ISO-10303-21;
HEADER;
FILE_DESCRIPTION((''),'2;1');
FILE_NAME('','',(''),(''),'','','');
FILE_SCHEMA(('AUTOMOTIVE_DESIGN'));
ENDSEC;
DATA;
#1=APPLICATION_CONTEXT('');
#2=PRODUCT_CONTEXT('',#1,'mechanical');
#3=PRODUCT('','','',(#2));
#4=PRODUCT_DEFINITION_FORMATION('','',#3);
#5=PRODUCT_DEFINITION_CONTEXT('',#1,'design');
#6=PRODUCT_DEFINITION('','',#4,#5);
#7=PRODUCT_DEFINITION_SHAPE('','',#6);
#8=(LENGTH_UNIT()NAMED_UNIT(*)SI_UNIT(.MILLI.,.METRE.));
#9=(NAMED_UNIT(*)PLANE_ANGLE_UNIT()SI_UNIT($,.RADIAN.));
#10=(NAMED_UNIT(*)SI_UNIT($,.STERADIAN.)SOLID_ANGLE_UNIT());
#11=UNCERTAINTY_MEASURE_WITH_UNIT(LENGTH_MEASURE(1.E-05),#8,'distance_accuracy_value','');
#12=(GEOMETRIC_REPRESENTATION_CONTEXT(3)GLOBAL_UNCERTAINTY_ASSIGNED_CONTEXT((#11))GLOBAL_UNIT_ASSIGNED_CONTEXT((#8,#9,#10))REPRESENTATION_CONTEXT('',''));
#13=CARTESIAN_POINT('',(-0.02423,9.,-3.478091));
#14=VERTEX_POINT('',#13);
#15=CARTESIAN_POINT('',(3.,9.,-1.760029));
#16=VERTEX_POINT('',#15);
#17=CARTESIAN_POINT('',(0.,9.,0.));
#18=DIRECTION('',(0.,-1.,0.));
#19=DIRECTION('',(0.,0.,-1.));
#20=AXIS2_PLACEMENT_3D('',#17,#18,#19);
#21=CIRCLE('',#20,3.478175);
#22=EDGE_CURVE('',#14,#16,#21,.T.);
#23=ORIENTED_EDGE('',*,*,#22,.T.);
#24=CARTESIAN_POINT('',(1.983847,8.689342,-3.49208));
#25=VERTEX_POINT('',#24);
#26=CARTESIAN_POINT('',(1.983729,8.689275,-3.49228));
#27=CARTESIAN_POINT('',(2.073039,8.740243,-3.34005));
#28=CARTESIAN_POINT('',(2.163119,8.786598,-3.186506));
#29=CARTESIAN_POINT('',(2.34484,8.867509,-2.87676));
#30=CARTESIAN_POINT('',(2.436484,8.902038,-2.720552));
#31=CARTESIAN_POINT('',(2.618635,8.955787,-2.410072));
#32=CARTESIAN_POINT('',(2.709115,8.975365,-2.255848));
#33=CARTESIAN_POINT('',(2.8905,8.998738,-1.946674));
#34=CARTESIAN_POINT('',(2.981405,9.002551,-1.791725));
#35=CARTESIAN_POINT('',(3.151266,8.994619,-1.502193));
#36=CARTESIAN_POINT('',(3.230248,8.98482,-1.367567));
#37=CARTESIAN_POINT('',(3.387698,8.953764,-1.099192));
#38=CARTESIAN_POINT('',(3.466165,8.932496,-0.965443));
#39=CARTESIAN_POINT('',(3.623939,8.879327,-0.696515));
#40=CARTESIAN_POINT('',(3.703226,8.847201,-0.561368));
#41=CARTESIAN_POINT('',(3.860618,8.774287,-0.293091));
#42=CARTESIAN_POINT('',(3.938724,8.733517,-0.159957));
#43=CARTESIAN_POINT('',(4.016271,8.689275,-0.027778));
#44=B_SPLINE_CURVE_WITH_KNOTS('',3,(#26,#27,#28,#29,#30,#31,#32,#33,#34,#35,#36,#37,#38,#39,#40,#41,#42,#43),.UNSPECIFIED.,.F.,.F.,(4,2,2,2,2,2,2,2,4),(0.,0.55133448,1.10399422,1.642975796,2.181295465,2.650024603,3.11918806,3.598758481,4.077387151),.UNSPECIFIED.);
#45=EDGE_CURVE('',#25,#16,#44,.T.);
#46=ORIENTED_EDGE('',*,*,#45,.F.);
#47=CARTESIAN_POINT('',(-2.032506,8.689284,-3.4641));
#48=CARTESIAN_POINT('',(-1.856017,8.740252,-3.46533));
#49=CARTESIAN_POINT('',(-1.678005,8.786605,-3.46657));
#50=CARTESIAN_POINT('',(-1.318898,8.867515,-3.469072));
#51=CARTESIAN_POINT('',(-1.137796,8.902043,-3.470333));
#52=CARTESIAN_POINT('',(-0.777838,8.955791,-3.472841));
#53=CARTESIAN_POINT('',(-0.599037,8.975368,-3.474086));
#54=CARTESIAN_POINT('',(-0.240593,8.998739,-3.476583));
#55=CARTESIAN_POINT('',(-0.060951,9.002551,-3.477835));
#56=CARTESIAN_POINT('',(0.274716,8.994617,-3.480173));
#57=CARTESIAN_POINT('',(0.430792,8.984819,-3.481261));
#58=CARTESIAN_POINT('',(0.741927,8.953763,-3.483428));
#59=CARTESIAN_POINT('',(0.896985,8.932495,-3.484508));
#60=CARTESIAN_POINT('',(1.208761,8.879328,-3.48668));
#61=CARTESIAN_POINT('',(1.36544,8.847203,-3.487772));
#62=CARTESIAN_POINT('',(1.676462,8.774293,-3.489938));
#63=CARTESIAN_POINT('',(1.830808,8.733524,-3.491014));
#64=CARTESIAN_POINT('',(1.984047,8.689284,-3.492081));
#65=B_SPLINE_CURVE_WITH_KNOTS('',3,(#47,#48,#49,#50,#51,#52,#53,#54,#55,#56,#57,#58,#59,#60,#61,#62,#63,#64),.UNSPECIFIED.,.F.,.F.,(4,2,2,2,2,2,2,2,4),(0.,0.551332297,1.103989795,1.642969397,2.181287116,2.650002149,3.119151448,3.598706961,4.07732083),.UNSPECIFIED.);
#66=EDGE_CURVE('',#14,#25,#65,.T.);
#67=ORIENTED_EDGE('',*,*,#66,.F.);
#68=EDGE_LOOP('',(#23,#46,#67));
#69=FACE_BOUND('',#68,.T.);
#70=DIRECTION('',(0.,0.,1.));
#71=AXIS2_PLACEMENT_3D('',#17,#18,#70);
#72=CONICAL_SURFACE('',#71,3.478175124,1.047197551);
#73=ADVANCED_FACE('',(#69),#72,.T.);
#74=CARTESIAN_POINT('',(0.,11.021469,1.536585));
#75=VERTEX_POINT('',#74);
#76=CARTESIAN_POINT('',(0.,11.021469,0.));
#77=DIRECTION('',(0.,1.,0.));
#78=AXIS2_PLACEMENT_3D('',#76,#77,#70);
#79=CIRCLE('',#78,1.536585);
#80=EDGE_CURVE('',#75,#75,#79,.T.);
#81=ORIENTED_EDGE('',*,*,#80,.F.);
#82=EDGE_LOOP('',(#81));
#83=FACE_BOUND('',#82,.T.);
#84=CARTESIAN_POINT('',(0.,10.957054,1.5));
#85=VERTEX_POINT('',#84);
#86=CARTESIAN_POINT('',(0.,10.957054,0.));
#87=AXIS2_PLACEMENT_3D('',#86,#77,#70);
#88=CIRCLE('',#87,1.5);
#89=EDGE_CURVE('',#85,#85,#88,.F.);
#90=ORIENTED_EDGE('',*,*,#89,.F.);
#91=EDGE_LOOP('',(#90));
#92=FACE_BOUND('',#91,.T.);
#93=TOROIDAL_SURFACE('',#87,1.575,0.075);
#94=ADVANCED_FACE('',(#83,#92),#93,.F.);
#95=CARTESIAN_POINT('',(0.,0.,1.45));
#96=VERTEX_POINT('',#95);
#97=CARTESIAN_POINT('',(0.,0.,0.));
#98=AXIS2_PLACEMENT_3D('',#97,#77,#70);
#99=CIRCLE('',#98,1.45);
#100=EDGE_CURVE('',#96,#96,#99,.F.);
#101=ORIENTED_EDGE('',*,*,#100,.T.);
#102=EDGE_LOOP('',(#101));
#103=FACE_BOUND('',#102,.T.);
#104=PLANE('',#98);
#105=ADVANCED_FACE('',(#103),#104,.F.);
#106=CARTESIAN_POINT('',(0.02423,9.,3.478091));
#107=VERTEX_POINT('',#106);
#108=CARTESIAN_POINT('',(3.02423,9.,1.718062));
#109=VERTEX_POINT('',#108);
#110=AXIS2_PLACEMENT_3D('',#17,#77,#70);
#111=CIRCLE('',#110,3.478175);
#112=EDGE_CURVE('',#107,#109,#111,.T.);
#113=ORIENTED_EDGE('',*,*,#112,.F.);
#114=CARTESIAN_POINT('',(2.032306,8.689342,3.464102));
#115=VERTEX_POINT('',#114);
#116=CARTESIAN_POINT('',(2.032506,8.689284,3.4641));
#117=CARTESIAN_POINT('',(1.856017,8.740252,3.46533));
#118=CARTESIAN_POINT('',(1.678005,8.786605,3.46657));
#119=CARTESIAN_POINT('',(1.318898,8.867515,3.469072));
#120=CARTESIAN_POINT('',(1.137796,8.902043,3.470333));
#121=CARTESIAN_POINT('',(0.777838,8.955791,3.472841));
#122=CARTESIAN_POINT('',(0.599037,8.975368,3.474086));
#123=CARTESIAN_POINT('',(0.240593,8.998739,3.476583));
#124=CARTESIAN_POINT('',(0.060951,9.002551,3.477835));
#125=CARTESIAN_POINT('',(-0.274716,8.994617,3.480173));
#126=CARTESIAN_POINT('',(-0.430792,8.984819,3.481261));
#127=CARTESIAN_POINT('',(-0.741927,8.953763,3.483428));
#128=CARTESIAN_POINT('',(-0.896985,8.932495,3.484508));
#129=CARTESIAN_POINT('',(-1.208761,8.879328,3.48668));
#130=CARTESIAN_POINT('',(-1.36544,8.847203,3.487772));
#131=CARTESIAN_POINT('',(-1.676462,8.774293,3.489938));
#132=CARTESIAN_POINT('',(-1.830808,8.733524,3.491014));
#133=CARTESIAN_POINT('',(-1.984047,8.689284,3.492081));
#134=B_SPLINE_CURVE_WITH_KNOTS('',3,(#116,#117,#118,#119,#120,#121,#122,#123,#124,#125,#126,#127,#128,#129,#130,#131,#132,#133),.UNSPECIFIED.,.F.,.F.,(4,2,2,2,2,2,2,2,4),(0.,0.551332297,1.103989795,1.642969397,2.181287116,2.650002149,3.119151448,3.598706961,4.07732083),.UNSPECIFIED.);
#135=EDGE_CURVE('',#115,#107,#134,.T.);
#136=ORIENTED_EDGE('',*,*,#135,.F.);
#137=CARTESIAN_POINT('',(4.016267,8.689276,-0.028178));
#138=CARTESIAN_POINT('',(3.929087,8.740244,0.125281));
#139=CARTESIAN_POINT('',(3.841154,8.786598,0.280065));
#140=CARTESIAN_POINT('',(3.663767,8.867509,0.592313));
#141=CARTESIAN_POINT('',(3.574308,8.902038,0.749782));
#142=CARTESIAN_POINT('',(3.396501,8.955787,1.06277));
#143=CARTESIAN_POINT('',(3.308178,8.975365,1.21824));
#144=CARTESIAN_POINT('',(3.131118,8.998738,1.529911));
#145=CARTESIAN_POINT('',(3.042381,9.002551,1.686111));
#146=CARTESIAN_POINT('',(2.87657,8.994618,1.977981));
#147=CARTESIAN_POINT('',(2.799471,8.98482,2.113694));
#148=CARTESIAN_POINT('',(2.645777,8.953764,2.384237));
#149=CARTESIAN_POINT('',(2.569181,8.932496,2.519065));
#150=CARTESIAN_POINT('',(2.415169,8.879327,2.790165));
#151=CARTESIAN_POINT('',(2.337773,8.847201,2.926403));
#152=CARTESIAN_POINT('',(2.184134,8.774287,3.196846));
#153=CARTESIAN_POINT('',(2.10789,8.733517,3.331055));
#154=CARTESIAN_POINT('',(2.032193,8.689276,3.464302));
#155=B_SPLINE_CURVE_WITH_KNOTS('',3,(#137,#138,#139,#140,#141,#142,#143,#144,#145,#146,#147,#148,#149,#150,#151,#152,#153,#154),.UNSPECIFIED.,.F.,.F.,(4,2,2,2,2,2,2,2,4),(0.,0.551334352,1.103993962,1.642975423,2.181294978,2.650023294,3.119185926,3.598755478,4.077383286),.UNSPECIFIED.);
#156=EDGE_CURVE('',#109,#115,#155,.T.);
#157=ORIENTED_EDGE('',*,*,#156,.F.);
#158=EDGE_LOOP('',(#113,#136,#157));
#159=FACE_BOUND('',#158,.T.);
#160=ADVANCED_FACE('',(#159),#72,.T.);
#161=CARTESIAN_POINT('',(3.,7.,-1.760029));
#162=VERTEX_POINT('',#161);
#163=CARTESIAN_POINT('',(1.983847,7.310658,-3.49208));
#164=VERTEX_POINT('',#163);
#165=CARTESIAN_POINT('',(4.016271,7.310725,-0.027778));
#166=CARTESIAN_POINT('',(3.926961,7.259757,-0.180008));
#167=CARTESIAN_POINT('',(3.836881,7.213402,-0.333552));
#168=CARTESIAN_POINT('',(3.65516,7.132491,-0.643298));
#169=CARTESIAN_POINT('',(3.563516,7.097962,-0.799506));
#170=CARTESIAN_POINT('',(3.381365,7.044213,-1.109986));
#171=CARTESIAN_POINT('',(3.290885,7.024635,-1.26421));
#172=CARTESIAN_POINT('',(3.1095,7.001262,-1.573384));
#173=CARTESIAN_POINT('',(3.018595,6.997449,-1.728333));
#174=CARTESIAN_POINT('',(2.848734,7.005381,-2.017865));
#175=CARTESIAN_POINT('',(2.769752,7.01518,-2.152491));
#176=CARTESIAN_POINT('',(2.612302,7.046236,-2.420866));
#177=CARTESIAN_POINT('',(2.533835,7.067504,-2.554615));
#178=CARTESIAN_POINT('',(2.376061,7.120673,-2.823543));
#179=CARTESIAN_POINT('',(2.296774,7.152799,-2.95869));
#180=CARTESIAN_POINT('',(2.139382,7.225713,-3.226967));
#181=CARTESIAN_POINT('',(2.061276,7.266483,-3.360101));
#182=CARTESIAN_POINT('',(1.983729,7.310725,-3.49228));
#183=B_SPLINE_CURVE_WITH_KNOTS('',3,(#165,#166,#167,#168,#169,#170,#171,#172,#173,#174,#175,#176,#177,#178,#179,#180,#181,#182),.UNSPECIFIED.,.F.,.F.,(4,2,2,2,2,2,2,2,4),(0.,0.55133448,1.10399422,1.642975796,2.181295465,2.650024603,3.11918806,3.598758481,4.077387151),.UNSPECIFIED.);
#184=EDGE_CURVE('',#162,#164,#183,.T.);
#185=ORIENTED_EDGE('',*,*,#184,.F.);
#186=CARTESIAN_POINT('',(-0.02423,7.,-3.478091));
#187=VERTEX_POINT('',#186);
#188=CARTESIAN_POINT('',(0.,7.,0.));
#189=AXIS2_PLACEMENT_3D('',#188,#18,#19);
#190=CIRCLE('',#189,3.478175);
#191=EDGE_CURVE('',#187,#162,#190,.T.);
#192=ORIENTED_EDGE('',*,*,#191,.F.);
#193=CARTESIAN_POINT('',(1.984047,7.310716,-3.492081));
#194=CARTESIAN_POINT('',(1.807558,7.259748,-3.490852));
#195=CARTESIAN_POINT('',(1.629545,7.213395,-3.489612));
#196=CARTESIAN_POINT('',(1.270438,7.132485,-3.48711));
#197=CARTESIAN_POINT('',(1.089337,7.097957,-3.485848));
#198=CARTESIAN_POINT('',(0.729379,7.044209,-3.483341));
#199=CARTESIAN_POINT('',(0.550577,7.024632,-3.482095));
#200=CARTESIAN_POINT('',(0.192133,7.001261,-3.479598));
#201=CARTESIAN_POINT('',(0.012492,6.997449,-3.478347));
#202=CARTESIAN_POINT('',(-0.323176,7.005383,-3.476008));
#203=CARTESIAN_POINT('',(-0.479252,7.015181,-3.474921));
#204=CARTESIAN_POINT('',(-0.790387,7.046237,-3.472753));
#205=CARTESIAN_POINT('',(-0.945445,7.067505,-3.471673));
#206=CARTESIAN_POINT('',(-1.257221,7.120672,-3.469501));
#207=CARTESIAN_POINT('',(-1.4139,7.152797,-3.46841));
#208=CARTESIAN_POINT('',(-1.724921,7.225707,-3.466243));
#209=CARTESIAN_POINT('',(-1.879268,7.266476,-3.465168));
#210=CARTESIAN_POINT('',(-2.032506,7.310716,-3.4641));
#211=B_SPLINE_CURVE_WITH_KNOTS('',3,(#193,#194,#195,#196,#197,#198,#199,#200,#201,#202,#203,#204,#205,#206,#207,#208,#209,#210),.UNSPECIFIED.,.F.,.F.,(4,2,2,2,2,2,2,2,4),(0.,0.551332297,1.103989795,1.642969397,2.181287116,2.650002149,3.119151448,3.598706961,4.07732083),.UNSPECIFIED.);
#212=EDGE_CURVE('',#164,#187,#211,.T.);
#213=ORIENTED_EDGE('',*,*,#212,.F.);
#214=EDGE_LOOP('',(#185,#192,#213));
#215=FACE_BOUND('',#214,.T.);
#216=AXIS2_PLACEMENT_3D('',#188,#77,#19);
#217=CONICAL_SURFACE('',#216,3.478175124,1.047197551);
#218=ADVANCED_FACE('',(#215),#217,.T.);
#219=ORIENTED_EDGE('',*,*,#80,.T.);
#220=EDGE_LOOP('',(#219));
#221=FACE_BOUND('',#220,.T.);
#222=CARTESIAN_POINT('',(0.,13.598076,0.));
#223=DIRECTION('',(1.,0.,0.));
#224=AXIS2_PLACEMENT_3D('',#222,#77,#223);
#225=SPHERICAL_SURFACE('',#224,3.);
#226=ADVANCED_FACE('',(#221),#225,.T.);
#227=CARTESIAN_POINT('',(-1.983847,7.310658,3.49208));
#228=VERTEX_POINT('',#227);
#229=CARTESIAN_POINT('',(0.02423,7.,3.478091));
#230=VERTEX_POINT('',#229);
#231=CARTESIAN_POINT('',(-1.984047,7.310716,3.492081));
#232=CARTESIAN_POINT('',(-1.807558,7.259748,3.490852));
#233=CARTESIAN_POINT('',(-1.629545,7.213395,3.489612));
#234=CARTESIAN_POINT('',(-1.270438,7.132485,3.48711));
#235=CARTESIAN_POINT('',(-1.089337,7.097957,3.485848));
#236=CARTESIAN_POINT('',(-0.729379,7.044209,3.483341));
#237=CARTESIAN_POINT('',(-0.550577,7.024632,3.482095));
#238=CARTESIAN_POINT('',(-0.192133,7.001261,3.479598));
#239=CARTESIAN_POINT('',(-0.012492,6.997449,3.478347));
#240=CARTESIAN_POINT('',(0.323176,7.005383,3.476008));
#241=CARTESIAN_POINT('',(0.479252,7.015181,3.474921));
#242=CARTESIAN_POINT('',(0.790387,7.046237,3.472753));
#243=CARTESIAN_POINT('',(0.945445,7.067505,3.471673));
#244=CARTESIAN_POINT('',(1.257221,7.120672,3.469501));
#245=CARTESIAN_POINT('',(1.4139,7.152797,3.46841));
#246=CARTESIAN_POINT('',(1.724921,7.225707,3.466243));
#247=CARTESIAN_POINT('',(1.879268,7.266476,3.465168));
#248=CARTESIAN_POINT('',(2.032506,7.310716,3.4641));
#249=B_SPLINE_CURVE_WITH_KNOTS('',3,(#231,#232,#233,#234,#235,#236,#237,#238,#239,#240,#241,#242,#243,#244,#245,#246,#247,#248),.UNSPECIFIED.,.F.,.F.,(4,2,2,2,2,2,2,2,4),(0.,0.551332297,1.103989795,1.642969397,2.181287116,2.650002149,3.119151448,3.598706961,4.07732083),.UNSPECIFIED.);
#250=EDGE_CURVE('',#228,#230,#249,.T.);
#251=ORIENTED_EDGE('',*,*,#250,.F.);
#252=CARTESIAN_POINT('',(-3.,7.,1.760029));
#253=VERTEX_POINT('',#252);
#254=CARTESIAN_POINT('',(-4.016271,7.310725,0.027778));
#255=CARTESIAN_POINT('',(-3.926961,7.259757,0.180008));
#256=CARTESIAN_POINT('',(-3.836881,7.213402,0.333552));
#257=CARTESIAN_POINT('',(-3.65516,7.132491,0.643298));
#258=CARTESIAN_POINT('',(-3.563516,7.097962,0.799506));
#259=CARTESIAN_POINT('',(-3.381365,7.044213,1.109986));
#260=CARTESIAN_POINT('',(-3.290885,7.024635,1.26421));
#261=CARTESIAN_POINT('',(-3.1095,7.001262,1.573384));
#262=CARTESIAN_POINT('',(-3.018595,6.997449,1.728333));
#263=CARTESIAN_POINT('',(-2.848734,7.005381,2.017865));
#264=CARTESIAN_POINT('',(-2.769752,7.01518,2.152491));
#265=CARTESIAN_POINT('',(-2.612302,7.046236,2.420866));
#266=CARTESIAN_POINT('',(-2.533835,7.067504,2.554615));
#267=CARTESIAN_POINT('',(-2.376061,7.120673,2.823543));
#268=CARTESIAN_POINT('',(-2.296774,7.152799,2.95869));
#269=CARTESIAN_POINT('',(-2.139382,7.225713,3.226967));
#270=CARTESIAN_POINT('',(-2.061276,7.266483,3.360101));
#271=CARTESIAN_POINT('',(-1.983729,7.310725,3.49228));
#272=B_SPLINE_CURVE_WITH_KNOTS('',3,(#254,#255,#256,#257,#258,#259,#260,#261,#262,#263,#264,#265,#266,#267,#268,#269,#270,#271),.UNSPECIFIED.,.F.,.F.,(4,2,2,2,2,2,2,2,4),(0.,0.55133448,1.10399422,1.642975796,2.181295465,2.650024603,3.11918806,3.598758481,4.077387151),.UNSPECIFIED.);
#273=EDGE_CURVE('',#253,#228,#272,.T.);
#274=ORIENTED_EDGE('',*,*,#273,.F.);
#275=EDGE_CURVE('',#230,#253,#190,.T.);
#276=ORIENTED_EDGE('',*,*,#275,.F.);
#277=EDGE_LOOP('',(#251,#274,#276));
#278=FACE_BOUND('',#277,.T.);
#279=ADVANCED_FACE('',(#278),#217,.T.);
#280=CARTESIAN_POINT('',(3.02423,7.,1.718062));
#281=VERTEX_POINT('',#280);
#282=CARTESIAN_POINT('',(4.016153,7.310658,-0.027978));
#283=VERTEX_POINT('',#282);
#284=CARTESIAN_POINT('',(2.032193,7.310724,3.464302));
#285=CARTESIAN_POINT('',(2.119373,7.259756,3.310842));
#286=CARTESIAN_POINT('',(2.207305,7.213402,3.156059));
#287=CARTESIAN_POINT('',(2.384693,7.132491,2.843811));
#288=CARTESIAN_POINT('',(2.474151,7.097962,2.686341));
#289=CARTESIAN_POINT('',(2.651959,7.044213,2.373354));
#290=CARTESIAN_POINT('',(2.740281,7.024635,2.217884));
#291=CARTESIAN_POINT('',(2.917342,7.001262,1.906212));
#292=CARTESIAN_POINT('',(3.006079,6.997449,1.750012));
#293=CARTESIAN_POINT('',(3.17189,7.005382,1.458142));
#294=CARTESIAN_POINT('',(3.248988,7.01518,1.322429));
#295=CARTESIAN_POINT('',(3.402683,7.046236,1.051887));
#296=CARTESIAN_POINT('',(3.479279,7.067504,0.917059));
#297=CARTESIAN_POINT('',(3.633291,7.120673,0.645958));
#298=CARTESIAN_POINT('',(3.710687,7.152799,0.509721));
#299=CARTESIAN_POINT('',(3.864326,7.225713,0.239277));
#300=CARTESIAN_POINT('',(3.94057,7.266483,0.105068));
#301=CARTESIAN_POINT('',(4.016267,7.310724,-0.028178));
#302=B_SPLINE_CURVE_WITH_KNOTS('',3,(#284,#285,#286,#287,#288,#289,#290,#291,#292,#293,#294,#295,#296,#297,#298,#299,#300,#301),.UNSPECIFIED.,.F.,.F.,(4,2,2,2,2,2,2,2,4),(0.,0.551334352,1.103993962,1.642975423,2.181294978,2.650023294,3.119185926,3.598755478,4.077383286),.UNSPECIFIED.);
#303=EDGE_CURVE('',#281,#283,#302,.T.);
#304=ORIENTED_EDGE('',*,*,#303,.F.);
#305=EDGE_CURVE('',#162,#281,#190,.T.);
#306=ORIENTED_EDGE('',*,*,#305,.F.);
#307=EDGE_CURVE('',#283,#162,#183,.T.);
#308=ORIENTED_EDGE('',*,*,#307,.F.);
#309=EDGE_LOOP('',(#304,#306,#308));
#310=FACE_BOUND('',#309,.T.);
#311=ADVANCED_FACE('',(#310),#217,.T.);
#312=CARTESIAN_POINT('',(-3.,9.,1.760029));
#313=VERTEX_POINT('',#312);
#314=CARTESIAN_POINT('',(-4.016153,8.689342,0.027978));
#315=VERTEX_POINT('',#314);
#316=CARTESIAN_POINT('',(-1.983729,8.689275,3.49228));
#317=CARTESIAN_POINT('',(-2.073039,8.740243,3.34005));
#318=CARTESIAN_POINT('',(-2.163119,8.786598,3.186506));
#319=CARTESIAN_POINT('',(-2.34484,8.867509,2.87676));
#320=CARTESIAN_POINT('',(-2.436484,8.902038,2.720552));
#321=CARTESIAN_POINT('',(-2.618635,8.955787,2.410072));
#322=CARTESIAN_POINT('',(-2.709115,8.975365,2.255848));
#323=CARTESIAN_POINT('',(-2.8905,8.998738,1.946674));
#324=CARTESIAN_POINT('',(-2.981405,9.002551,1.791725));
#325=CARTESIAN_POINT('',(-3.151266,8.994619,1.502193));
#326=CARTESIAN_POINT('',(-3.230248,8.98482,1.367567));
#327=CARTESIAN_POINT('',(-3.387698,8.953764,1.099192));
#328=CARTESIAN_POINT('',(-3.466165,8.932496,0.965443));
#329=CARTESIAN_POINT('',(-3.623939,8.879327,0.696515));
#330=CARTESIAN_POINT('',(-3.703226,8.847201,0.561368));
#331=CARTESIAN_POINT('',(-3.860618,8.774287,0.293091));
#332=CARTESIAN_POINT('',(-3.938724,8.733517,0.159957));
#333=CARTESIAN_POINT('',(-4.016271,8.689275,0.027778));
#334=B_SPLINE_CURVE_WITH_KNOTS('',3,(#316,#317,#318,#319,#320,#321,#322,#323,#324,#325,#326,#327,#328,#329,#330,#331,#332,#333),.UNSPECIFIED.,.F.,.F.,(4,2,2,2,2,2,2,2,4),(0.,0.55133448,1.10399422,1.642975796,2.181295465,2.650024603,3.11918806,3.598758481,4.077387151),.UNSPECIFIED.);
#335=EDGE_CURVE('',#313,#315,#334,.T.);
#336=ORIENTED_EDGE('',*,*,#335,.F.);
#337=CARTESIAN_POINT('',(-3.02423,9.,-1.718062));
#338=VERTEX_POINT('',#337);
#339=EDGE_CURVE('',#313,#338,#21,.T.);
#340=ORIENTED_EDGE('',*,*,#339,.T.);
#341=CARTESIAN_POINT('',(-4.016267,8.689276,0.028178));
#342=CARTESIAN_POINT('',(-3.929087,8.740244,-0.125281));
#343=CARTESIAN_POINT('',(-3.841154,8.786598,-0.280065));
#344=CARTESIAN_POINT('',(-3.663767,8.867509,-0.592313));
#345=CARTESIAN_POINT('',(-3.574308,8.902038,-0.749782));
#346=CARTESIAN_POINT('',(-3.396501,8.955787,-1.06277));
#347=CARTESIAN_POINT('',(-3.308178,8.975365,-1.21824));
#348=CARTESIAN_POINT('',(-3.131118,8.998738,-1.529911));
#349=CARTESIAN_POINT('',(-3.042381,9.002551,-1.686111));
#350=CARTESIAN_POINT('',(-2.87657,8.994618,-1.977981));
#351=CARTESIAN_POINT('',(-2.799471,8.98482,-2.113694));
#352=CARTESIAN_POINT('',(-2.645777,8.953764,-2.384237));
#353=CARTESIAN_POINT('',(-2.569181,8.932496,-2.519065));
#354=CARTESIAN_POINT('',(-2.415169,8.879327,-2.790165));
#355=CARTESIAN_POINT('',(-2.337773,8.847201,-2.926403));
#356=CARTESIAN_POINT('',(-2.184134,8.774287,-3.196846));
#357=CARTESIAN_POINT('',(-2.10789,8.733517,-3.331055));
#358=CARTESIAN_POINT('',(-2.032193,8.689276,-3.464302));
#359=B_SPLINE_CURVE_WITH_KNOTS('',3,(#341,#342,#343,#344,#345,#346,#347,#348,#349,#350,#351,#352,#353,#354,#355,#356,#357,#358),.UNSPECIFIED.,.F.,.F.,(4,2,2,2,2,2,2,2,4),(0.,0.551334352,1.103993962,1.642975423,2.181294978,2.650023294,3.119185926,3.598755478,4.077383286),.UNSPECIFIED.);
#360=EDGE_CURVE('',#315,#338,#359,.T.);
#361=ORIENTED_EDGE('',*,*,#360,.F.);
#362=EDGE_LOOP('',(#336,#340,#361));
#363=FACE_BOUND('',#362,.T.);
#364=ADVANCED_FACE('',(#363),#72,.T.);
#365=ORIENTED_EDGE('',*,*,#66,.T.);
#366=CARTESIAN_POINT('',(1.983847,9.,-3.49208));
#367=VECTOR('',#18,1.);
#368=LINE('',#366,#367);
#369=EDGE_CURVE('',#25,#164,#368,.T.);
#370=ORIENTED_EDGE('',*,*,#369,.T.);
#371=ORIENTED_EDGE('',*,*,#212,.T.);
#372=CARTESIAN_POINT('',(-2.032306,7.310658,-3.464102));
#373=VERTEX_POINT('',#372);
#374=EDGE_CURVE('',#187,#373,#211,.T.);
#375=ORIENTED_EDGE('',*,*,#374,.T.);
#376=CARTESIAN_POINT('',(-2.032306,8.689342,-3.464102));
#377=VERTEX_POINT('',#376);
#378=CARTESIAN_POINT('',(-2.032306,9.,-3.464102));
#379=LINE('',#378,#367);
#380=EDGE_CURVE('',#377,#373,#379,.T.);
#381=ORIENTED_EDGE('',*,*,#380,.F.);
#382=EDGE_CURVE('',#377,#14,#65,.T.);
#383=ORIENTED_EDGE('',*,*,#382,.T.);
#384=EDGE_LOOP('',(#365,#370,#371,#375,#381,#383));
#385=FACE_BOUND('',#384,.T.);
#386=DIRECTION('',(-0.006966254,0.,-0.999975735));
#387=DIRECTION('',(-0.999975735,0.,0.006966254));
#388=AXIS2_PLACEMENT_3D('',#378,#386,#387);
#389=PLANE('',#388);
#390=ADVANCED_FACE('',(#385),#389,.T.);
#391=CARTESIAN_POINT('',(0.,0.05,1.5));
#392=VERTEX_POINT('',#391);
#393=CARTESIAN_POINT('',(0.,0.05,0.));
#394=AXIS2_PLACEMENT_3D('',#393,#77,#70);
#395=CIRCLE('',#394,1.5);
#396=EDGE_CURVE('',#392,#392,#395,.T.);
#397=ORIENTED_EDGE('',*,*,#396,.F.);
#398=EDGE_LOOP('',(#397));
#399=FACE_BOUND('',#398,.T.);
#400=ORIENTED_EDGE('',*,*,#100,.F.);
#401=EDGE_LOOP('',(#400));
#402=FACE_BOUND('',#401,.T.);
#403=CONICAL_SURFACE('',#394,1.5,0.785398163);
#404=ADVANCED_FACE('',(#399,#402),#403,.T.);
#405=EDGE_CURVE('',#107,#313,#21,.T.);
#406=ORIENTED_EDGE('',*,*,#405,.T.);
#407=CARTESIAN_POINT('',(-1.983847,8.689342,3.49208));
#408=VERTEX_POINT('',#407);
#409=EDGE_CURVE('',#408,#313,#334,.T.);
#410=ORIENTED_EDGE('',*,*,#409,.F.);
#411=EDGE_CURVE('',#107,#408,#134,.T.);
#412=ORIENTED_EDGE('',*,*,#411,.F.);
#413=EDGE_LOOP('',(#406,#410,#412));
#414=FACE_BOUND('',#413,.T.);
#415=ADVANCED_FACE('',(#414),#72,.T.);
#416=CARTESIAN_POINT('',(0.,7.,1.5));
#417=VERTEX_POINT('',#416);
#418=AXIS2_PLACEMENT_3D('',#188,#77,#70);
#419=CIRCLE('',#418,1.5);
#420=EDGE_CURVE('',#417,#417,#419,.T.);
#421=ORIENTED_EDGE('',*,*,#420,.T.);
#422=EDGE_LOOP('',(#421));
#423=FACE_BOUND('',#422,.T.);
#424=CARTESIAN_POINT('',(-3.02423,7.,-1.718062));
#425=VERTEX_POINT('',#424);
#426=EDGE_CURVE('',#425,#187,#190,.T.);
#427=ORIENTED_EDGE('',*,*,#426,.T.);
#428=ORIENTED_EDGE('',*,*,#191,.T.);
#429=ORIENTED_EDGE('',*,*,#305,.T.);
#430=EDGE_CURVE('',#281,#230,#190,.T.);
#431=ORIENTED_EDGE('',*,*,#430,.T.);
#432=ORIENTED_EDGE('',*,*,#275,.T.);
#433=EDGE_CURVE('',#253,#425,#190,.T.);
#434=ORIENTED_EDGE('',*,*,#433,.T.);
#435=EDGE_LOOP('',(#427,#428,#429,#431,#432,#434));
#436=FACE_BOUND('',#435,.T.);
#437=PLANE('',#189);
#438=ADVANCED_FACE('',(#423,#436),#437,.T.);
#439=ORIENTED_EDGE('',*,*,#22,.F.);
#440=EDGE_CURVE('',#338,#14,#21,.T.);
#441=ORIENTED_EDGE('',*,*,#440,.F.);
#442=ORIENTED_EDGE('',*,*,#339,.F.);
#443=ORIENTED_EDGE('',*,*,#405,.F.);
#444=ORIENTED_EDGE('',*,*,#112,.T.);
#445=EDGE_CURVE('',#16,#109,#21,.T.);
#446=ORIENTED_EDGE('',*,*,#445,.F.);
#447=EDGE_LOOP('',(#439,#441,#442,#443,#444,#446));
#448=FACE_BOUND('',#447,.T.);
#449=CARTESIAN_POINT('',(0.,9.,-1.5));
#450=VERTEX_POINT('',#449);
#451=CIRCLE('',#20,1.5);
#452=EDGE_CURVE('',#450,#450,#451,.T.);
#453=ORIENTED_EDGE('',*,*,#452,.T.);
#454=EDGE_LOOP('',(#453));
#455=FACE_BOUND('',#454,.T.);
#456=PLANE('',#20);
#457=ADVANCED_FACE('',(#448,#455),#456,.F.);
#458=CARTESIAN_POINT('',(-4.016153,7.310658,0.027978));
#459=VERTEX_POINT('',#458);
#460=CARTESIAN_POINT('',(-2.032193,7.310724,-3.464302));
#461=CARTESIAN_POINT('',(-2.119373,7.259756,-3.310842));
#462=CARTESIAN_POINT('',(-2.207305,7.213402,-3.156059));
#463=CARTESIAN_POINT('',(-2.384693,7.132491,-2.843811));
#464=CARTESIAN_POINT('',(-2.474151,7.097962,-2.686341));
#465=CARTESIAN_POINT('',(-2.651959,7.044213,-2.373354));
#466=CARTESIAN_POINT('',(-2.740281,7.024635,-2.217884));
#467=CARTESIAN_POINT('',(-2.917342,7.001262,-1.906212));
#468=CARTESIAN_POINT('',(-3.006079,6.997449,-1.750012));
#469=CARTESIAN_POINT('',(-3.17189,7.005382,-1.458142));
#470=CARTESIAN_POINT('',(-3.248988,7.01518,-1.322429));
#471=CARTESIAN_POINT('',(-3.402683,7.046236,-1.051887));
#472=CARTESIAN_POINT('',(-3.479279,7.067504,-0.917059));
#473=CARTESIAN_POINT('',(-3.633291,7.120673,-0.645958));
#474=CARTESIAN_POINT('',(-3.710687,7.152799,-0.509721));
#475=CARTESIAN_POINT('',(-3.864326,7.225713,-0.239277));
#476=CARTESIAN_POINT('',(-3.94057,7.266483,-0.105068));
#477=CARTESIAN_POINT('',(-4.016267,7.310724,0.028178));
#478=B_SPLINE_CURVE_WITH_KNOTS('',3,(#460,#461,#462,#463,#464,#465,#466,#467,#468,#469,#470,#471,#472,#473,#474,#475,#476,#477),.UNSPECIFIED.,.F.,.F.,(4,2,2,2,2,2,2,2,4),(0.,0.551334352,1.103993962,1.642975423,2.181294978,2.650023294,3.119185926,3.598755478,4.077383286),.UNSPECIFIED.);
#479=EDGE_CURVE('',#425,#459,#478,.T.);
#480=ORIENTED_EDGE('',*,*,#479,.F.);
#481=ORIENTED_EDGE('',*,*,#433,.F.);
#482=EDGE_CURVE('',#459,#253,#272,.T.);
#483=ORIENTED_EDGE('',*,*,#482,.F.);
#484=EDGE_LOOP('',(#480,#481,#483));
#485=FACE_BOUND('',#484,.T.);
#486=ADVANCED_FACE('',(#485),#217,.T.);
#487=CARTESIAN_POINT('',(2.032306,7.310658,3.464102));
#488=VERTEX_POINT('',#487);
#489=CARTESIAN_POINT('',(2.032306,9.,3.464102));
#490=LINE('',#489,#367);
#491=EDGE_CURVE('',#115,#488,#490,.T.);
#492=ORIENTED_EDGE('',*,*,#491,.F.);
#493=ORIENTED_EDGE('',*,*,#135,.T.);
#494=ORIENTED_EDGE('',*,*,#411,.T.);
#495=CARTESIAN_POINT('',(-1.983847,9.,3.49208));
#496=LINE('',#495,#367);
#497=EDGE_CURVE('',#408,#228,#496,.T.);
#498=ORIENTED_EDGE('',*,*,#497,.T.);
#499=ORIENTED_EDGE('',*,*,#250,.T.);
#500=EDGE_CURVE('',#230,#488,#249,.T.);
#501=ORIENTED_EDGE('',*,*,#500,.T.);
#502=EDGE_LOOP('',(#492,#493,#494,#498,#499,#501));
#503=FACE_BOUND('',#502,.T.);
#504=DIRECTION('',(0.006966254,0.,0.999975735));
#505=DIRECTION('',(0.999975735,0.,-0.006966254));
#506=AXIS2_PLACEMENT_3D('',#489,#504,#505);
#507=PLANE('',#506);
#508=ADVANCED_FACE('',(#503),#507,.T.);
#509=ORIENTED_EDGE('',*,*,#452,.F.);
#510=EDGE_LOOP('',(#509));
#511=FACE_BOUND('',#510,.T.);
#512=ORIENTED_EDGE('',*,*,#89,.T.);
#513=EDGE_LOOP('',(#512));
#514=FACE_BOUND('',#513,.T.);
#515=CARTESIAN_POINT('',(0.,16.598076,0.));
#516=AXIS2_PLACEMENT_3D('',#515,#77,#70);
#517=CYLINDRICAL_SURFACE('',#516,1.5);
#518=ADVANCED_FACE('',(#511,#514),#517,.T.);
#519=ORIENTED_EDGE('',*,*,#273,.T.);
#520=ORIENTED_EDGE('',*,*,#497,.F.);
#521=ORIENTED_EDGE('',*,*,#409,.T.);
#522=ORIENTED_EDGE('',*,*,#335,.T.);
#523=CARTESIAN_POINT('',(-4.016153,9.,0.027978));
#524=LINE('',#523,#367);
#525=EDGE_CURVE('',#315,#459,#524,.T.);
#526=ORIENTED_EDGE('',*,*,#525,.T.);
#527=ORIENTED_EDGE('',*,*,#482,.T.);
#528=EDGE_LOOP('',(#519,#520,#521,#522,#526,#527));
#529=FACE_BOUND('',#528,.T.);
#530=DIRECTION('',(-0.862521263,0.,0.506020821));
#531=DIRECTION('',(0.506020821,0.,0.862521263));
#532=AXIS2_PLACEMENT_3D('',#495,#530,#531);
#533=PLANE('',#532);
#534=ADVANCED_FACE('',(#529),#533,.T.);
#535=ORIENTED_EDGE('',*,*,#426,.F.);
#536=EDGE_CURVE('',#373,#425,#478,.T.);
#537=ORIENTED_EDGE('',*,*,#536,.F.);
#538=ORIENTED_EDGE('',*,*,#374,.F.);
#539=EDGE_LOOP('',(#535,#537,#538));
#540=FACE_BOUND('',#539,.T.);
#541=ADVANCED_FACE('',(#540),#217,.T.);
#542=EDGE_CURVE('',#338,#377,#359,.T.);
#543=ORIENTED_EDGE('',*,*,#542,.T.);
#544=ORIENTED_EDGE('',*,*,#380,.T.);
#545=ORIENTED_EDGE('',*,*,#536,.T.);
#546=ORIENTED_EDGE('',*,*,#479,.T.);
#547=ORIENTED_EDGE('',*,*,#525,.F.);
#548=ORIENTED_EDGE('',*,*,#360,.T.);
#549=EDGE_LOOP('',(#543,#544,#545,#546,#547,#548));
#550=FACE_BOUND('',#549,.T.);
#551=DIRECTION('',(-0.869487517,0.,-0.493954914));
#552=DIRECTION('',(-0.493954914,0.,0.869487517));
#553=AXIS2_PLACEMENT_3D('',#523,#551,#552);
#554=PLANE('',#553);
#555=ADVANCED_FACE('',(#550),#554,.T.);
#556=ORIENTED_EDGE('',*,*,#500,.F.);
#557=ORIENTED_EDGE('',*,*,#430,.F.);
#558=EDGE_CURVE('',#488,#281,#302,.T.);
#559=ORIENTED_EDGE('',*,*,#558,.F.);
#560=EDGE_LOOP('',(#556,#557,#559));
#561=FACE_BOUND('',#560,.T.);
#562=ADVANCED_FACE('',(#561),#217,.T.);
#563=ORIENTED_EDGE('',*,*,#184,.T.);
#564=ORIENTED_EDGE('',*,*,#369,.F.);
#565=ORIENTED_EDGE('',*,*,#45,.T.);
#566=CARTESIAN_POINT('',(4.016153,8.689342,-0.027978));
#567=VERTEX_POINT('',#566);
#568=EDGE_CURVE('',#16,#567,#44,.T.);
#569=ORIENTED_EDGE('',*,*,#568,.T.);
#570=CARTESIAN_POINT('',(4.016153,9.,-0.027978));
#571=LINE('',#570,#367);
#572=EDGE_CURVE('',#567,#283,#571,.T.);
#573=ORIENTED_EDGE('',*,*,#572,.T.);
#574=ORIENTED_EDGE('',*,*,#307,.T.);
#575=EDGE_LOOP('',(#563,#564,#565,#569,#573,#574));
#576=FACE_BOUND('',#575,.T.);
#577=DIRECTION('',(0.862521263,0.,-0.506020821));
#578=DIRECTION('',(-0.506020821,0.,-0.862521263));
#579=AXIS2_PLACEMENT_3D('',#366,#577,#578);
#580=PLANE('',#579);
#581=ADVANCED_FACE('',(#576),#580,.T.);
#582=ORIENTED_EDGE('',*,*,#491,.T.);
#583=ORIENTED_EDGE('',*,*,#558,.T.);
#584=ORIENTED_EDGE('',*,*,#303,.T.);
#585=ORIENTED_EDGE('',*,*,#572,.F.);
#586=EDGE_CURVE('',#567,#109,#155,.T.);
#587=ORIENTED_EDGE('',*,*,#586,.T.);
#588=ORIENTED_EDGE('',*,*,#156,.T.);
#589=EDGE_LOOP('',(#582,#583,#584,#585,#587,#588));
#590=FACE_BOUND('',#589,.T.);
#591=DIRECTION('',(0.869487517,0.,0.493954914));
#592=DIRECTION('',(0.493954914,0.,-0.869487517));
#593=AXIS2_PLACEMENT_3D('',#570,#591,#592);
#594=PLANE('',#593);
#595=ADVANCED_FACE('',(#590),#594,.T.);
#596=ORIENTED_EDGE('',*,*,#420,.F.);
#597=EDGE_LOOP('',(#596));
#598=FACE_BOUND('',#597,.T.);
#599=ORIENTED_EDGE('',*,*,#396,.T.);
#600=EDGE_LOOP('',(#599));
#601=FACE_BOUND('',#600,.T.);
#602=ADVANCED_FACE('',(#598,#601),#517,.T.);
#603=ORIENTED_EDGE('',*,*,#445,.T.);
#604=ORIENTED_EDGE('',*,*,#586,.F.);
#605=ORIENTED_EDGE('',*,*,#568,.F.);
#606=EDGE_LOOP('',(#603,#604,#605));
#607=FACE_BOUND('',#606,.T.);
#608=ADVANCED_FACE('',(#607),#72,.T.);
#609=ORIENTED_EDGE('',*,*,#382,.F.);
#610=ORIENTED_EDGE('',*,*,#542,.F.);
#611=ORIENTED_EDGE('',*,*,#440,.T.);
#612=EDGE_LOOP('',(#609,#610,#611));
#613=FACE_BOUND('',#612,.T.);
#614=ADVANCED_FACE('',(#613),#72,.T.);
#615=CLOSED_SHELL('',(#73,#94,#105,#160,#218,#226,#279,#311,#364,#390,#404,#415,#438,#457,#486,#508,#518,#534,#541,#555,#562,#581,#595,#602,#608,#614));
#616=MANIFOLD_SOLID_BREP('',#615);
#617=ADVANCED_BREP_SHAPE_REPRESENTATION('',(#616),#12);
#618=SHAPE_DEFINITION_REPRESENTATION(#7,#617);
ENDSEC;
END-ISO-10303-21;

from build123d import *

# Parameters (mm, degrees)
CHAMFER1_SIZE       = 0.05
BOSS_EXTRUDE1_START = -2
SKETCH4_R           = 1.5
BOSS_EXTRUDE1_DEPTH = 2
SKETCH5_OUTSIDE_W   = 20.904
SKETCH5_OUTSIDE_H   = 19.856
SKETCH5_OUTSIDE_R   = 3.478175124
CUT_EXTRUDE2_DEPTH  = 2
CUT_EXTRUDE2_DRAFT  = -60
SKETCH6_OUTSIDE_W   = 20.904
SKETCH6_OUTSIDE_H   = 19.856
SKETCH6_OUTSIDE_R   = 3.478175124
CUT_EXTRUDE3_DEPTH  = 2
CUT_EXTRUDE3_DRAFT  = -60
FILLET1_R           = 0.075


with BuildPart() as part:
    # Sketch1 → Revolve1 (revolve)
    with BuildSketch(Plane.XY):
        with BuildLine():
            Line((0, 16.598076211), (0, 0))
            Line((0, 0), (1.5, 0))
            Line((1.5, 0), (1.5, 11))
            ThreePointArc((1.5, 11), (2.897777479, 14.374533347), (0, 16.598076211))
        make_face()
    revolve(axis=Axis((0, 16.598076211, 0), (0, -1, 0)))

    # Chamfer1
    chamfer1_edges = [part.edges().sort_by_distance(p)[0] for p in [
        (-1.5, 0, 0),
    ]]
    chamfer(chamfer1_edges, length=CHAMFER1_SIZE)

    # Sketch4 → Boss-Extrude1 (add)
    with BuildSketch(Plane(origin=(0, 7, 0), x_dir=(-1, 0, 0), z_dir=(0, -1, 0)).offset(BOSS_EXTRUDE1_START)):
        Polygon((1.983846765, -3.492079839), (4.016153235, -0.027978224), (2.032306471, 3.464101615), (-1.983846765, 3.492079839), (-4.016153235, 0.027978224), (-2.032306471, -3.464101615), align=None)
        with Locations(Location((0, 0, 0), (0, 0, 270))):
            Circle(SKETCH4_R, mode=Mode.SUBTRACT)
    extrude(amount=BOSS_EXTRUDE1_DEPTH)


with BuildPart() as cut_extrude2_tool:
    # Sketch5 outside → Cut-Extrude2 (with draft: the straight prism first)
    with BuildSketch(Plane.XZ.offset(-7)):
        Rectangle(SKETCH5_OUTSIDE_W, SKETCH5_OUTSIDE_H)
        Circle(SKETCH5_OUTSIDE_R, mode=Mode.SUBTRACT)
    extrude(amount=-CUT_EXTRUDE2_DEPTH)
    # Cut-Extrude2: the draft: its side faces are tilted about the plane it starts from
    cut_extrude2_sides = [cut_extrude2_tool.faces().sort_by_distance(p)[0] for p in [
        (0, 8, -9.928),
        (10.452, 8, 0),
        (0, 8, 9.928),
        (-10.452, 8, 0),
        (-3.478175124, 8, 0),
    ]]
    draft(cut_extrude2_sides, Plane.XZ.offset(-7), CUT_EXTRUDE2_DRAFT)


with BuildPart() as part_1:
    add(part.part)

    # Cut-Extrude2: cut by cut_extrude2_tool
    add(cut_extrude2_tool.part, mode=Mode.SUBTRACT)


with BuildPart() as cut_extrude3_tool:
    # Sketch6 outside → Cut-Extrude3 (with draft: the straight prism first)
    with BuildSketch(Plane(origin=(0, 9, 0), x_dir=(1, 0, 0), z_dir=(0, 1, 0))):
        Rectangle(SKETCH6_OUTSIDE_W, SKETCH6_OUTSIDE_H)
        Circle(SKETCH6_OUTSIDE_R, mode=Mode.SUBTRACT)
    extrude(amount=-CUT_EXTRUDE3_DEPTH)
    # Cut-Extrude3: the draft: its side faces are tilted about the plane it starts from
    cut_extrude3_sides = [cut_extrude3_tool.faces().sort_by_distance(p)[0] for p in [
        (0, 8, 9.928),
        (10.452, 8, 0),
        (0, 8, -9.928),
        (-10.452, 8, 0),
        (-3.478175124, 8, 0),
    ]]
    draft(cut_extrude3_sides, Plane(origin=(0, 9, 0), x_dir=(1, 0, 0), z_dir=(0, 1, 0)), CUT_EXTRUDE3_DRAFT)


with BuildPart() as part_2:
    add(part_1.part)

    # Cut-Extrude3: cut by cut_extrude3_tool
    add(cut_extrude3_tool.part, mode=Mode.SUBTRACT)

    # Fillet1
    fillet1_edges = [part_2.edges().sort_by_distance(p)[0] for p in [
        (-1.5, 11, 0),
    ]]
    fillet(fillet1_edges, radius=FILLET1_R)


solid = part_2.part
